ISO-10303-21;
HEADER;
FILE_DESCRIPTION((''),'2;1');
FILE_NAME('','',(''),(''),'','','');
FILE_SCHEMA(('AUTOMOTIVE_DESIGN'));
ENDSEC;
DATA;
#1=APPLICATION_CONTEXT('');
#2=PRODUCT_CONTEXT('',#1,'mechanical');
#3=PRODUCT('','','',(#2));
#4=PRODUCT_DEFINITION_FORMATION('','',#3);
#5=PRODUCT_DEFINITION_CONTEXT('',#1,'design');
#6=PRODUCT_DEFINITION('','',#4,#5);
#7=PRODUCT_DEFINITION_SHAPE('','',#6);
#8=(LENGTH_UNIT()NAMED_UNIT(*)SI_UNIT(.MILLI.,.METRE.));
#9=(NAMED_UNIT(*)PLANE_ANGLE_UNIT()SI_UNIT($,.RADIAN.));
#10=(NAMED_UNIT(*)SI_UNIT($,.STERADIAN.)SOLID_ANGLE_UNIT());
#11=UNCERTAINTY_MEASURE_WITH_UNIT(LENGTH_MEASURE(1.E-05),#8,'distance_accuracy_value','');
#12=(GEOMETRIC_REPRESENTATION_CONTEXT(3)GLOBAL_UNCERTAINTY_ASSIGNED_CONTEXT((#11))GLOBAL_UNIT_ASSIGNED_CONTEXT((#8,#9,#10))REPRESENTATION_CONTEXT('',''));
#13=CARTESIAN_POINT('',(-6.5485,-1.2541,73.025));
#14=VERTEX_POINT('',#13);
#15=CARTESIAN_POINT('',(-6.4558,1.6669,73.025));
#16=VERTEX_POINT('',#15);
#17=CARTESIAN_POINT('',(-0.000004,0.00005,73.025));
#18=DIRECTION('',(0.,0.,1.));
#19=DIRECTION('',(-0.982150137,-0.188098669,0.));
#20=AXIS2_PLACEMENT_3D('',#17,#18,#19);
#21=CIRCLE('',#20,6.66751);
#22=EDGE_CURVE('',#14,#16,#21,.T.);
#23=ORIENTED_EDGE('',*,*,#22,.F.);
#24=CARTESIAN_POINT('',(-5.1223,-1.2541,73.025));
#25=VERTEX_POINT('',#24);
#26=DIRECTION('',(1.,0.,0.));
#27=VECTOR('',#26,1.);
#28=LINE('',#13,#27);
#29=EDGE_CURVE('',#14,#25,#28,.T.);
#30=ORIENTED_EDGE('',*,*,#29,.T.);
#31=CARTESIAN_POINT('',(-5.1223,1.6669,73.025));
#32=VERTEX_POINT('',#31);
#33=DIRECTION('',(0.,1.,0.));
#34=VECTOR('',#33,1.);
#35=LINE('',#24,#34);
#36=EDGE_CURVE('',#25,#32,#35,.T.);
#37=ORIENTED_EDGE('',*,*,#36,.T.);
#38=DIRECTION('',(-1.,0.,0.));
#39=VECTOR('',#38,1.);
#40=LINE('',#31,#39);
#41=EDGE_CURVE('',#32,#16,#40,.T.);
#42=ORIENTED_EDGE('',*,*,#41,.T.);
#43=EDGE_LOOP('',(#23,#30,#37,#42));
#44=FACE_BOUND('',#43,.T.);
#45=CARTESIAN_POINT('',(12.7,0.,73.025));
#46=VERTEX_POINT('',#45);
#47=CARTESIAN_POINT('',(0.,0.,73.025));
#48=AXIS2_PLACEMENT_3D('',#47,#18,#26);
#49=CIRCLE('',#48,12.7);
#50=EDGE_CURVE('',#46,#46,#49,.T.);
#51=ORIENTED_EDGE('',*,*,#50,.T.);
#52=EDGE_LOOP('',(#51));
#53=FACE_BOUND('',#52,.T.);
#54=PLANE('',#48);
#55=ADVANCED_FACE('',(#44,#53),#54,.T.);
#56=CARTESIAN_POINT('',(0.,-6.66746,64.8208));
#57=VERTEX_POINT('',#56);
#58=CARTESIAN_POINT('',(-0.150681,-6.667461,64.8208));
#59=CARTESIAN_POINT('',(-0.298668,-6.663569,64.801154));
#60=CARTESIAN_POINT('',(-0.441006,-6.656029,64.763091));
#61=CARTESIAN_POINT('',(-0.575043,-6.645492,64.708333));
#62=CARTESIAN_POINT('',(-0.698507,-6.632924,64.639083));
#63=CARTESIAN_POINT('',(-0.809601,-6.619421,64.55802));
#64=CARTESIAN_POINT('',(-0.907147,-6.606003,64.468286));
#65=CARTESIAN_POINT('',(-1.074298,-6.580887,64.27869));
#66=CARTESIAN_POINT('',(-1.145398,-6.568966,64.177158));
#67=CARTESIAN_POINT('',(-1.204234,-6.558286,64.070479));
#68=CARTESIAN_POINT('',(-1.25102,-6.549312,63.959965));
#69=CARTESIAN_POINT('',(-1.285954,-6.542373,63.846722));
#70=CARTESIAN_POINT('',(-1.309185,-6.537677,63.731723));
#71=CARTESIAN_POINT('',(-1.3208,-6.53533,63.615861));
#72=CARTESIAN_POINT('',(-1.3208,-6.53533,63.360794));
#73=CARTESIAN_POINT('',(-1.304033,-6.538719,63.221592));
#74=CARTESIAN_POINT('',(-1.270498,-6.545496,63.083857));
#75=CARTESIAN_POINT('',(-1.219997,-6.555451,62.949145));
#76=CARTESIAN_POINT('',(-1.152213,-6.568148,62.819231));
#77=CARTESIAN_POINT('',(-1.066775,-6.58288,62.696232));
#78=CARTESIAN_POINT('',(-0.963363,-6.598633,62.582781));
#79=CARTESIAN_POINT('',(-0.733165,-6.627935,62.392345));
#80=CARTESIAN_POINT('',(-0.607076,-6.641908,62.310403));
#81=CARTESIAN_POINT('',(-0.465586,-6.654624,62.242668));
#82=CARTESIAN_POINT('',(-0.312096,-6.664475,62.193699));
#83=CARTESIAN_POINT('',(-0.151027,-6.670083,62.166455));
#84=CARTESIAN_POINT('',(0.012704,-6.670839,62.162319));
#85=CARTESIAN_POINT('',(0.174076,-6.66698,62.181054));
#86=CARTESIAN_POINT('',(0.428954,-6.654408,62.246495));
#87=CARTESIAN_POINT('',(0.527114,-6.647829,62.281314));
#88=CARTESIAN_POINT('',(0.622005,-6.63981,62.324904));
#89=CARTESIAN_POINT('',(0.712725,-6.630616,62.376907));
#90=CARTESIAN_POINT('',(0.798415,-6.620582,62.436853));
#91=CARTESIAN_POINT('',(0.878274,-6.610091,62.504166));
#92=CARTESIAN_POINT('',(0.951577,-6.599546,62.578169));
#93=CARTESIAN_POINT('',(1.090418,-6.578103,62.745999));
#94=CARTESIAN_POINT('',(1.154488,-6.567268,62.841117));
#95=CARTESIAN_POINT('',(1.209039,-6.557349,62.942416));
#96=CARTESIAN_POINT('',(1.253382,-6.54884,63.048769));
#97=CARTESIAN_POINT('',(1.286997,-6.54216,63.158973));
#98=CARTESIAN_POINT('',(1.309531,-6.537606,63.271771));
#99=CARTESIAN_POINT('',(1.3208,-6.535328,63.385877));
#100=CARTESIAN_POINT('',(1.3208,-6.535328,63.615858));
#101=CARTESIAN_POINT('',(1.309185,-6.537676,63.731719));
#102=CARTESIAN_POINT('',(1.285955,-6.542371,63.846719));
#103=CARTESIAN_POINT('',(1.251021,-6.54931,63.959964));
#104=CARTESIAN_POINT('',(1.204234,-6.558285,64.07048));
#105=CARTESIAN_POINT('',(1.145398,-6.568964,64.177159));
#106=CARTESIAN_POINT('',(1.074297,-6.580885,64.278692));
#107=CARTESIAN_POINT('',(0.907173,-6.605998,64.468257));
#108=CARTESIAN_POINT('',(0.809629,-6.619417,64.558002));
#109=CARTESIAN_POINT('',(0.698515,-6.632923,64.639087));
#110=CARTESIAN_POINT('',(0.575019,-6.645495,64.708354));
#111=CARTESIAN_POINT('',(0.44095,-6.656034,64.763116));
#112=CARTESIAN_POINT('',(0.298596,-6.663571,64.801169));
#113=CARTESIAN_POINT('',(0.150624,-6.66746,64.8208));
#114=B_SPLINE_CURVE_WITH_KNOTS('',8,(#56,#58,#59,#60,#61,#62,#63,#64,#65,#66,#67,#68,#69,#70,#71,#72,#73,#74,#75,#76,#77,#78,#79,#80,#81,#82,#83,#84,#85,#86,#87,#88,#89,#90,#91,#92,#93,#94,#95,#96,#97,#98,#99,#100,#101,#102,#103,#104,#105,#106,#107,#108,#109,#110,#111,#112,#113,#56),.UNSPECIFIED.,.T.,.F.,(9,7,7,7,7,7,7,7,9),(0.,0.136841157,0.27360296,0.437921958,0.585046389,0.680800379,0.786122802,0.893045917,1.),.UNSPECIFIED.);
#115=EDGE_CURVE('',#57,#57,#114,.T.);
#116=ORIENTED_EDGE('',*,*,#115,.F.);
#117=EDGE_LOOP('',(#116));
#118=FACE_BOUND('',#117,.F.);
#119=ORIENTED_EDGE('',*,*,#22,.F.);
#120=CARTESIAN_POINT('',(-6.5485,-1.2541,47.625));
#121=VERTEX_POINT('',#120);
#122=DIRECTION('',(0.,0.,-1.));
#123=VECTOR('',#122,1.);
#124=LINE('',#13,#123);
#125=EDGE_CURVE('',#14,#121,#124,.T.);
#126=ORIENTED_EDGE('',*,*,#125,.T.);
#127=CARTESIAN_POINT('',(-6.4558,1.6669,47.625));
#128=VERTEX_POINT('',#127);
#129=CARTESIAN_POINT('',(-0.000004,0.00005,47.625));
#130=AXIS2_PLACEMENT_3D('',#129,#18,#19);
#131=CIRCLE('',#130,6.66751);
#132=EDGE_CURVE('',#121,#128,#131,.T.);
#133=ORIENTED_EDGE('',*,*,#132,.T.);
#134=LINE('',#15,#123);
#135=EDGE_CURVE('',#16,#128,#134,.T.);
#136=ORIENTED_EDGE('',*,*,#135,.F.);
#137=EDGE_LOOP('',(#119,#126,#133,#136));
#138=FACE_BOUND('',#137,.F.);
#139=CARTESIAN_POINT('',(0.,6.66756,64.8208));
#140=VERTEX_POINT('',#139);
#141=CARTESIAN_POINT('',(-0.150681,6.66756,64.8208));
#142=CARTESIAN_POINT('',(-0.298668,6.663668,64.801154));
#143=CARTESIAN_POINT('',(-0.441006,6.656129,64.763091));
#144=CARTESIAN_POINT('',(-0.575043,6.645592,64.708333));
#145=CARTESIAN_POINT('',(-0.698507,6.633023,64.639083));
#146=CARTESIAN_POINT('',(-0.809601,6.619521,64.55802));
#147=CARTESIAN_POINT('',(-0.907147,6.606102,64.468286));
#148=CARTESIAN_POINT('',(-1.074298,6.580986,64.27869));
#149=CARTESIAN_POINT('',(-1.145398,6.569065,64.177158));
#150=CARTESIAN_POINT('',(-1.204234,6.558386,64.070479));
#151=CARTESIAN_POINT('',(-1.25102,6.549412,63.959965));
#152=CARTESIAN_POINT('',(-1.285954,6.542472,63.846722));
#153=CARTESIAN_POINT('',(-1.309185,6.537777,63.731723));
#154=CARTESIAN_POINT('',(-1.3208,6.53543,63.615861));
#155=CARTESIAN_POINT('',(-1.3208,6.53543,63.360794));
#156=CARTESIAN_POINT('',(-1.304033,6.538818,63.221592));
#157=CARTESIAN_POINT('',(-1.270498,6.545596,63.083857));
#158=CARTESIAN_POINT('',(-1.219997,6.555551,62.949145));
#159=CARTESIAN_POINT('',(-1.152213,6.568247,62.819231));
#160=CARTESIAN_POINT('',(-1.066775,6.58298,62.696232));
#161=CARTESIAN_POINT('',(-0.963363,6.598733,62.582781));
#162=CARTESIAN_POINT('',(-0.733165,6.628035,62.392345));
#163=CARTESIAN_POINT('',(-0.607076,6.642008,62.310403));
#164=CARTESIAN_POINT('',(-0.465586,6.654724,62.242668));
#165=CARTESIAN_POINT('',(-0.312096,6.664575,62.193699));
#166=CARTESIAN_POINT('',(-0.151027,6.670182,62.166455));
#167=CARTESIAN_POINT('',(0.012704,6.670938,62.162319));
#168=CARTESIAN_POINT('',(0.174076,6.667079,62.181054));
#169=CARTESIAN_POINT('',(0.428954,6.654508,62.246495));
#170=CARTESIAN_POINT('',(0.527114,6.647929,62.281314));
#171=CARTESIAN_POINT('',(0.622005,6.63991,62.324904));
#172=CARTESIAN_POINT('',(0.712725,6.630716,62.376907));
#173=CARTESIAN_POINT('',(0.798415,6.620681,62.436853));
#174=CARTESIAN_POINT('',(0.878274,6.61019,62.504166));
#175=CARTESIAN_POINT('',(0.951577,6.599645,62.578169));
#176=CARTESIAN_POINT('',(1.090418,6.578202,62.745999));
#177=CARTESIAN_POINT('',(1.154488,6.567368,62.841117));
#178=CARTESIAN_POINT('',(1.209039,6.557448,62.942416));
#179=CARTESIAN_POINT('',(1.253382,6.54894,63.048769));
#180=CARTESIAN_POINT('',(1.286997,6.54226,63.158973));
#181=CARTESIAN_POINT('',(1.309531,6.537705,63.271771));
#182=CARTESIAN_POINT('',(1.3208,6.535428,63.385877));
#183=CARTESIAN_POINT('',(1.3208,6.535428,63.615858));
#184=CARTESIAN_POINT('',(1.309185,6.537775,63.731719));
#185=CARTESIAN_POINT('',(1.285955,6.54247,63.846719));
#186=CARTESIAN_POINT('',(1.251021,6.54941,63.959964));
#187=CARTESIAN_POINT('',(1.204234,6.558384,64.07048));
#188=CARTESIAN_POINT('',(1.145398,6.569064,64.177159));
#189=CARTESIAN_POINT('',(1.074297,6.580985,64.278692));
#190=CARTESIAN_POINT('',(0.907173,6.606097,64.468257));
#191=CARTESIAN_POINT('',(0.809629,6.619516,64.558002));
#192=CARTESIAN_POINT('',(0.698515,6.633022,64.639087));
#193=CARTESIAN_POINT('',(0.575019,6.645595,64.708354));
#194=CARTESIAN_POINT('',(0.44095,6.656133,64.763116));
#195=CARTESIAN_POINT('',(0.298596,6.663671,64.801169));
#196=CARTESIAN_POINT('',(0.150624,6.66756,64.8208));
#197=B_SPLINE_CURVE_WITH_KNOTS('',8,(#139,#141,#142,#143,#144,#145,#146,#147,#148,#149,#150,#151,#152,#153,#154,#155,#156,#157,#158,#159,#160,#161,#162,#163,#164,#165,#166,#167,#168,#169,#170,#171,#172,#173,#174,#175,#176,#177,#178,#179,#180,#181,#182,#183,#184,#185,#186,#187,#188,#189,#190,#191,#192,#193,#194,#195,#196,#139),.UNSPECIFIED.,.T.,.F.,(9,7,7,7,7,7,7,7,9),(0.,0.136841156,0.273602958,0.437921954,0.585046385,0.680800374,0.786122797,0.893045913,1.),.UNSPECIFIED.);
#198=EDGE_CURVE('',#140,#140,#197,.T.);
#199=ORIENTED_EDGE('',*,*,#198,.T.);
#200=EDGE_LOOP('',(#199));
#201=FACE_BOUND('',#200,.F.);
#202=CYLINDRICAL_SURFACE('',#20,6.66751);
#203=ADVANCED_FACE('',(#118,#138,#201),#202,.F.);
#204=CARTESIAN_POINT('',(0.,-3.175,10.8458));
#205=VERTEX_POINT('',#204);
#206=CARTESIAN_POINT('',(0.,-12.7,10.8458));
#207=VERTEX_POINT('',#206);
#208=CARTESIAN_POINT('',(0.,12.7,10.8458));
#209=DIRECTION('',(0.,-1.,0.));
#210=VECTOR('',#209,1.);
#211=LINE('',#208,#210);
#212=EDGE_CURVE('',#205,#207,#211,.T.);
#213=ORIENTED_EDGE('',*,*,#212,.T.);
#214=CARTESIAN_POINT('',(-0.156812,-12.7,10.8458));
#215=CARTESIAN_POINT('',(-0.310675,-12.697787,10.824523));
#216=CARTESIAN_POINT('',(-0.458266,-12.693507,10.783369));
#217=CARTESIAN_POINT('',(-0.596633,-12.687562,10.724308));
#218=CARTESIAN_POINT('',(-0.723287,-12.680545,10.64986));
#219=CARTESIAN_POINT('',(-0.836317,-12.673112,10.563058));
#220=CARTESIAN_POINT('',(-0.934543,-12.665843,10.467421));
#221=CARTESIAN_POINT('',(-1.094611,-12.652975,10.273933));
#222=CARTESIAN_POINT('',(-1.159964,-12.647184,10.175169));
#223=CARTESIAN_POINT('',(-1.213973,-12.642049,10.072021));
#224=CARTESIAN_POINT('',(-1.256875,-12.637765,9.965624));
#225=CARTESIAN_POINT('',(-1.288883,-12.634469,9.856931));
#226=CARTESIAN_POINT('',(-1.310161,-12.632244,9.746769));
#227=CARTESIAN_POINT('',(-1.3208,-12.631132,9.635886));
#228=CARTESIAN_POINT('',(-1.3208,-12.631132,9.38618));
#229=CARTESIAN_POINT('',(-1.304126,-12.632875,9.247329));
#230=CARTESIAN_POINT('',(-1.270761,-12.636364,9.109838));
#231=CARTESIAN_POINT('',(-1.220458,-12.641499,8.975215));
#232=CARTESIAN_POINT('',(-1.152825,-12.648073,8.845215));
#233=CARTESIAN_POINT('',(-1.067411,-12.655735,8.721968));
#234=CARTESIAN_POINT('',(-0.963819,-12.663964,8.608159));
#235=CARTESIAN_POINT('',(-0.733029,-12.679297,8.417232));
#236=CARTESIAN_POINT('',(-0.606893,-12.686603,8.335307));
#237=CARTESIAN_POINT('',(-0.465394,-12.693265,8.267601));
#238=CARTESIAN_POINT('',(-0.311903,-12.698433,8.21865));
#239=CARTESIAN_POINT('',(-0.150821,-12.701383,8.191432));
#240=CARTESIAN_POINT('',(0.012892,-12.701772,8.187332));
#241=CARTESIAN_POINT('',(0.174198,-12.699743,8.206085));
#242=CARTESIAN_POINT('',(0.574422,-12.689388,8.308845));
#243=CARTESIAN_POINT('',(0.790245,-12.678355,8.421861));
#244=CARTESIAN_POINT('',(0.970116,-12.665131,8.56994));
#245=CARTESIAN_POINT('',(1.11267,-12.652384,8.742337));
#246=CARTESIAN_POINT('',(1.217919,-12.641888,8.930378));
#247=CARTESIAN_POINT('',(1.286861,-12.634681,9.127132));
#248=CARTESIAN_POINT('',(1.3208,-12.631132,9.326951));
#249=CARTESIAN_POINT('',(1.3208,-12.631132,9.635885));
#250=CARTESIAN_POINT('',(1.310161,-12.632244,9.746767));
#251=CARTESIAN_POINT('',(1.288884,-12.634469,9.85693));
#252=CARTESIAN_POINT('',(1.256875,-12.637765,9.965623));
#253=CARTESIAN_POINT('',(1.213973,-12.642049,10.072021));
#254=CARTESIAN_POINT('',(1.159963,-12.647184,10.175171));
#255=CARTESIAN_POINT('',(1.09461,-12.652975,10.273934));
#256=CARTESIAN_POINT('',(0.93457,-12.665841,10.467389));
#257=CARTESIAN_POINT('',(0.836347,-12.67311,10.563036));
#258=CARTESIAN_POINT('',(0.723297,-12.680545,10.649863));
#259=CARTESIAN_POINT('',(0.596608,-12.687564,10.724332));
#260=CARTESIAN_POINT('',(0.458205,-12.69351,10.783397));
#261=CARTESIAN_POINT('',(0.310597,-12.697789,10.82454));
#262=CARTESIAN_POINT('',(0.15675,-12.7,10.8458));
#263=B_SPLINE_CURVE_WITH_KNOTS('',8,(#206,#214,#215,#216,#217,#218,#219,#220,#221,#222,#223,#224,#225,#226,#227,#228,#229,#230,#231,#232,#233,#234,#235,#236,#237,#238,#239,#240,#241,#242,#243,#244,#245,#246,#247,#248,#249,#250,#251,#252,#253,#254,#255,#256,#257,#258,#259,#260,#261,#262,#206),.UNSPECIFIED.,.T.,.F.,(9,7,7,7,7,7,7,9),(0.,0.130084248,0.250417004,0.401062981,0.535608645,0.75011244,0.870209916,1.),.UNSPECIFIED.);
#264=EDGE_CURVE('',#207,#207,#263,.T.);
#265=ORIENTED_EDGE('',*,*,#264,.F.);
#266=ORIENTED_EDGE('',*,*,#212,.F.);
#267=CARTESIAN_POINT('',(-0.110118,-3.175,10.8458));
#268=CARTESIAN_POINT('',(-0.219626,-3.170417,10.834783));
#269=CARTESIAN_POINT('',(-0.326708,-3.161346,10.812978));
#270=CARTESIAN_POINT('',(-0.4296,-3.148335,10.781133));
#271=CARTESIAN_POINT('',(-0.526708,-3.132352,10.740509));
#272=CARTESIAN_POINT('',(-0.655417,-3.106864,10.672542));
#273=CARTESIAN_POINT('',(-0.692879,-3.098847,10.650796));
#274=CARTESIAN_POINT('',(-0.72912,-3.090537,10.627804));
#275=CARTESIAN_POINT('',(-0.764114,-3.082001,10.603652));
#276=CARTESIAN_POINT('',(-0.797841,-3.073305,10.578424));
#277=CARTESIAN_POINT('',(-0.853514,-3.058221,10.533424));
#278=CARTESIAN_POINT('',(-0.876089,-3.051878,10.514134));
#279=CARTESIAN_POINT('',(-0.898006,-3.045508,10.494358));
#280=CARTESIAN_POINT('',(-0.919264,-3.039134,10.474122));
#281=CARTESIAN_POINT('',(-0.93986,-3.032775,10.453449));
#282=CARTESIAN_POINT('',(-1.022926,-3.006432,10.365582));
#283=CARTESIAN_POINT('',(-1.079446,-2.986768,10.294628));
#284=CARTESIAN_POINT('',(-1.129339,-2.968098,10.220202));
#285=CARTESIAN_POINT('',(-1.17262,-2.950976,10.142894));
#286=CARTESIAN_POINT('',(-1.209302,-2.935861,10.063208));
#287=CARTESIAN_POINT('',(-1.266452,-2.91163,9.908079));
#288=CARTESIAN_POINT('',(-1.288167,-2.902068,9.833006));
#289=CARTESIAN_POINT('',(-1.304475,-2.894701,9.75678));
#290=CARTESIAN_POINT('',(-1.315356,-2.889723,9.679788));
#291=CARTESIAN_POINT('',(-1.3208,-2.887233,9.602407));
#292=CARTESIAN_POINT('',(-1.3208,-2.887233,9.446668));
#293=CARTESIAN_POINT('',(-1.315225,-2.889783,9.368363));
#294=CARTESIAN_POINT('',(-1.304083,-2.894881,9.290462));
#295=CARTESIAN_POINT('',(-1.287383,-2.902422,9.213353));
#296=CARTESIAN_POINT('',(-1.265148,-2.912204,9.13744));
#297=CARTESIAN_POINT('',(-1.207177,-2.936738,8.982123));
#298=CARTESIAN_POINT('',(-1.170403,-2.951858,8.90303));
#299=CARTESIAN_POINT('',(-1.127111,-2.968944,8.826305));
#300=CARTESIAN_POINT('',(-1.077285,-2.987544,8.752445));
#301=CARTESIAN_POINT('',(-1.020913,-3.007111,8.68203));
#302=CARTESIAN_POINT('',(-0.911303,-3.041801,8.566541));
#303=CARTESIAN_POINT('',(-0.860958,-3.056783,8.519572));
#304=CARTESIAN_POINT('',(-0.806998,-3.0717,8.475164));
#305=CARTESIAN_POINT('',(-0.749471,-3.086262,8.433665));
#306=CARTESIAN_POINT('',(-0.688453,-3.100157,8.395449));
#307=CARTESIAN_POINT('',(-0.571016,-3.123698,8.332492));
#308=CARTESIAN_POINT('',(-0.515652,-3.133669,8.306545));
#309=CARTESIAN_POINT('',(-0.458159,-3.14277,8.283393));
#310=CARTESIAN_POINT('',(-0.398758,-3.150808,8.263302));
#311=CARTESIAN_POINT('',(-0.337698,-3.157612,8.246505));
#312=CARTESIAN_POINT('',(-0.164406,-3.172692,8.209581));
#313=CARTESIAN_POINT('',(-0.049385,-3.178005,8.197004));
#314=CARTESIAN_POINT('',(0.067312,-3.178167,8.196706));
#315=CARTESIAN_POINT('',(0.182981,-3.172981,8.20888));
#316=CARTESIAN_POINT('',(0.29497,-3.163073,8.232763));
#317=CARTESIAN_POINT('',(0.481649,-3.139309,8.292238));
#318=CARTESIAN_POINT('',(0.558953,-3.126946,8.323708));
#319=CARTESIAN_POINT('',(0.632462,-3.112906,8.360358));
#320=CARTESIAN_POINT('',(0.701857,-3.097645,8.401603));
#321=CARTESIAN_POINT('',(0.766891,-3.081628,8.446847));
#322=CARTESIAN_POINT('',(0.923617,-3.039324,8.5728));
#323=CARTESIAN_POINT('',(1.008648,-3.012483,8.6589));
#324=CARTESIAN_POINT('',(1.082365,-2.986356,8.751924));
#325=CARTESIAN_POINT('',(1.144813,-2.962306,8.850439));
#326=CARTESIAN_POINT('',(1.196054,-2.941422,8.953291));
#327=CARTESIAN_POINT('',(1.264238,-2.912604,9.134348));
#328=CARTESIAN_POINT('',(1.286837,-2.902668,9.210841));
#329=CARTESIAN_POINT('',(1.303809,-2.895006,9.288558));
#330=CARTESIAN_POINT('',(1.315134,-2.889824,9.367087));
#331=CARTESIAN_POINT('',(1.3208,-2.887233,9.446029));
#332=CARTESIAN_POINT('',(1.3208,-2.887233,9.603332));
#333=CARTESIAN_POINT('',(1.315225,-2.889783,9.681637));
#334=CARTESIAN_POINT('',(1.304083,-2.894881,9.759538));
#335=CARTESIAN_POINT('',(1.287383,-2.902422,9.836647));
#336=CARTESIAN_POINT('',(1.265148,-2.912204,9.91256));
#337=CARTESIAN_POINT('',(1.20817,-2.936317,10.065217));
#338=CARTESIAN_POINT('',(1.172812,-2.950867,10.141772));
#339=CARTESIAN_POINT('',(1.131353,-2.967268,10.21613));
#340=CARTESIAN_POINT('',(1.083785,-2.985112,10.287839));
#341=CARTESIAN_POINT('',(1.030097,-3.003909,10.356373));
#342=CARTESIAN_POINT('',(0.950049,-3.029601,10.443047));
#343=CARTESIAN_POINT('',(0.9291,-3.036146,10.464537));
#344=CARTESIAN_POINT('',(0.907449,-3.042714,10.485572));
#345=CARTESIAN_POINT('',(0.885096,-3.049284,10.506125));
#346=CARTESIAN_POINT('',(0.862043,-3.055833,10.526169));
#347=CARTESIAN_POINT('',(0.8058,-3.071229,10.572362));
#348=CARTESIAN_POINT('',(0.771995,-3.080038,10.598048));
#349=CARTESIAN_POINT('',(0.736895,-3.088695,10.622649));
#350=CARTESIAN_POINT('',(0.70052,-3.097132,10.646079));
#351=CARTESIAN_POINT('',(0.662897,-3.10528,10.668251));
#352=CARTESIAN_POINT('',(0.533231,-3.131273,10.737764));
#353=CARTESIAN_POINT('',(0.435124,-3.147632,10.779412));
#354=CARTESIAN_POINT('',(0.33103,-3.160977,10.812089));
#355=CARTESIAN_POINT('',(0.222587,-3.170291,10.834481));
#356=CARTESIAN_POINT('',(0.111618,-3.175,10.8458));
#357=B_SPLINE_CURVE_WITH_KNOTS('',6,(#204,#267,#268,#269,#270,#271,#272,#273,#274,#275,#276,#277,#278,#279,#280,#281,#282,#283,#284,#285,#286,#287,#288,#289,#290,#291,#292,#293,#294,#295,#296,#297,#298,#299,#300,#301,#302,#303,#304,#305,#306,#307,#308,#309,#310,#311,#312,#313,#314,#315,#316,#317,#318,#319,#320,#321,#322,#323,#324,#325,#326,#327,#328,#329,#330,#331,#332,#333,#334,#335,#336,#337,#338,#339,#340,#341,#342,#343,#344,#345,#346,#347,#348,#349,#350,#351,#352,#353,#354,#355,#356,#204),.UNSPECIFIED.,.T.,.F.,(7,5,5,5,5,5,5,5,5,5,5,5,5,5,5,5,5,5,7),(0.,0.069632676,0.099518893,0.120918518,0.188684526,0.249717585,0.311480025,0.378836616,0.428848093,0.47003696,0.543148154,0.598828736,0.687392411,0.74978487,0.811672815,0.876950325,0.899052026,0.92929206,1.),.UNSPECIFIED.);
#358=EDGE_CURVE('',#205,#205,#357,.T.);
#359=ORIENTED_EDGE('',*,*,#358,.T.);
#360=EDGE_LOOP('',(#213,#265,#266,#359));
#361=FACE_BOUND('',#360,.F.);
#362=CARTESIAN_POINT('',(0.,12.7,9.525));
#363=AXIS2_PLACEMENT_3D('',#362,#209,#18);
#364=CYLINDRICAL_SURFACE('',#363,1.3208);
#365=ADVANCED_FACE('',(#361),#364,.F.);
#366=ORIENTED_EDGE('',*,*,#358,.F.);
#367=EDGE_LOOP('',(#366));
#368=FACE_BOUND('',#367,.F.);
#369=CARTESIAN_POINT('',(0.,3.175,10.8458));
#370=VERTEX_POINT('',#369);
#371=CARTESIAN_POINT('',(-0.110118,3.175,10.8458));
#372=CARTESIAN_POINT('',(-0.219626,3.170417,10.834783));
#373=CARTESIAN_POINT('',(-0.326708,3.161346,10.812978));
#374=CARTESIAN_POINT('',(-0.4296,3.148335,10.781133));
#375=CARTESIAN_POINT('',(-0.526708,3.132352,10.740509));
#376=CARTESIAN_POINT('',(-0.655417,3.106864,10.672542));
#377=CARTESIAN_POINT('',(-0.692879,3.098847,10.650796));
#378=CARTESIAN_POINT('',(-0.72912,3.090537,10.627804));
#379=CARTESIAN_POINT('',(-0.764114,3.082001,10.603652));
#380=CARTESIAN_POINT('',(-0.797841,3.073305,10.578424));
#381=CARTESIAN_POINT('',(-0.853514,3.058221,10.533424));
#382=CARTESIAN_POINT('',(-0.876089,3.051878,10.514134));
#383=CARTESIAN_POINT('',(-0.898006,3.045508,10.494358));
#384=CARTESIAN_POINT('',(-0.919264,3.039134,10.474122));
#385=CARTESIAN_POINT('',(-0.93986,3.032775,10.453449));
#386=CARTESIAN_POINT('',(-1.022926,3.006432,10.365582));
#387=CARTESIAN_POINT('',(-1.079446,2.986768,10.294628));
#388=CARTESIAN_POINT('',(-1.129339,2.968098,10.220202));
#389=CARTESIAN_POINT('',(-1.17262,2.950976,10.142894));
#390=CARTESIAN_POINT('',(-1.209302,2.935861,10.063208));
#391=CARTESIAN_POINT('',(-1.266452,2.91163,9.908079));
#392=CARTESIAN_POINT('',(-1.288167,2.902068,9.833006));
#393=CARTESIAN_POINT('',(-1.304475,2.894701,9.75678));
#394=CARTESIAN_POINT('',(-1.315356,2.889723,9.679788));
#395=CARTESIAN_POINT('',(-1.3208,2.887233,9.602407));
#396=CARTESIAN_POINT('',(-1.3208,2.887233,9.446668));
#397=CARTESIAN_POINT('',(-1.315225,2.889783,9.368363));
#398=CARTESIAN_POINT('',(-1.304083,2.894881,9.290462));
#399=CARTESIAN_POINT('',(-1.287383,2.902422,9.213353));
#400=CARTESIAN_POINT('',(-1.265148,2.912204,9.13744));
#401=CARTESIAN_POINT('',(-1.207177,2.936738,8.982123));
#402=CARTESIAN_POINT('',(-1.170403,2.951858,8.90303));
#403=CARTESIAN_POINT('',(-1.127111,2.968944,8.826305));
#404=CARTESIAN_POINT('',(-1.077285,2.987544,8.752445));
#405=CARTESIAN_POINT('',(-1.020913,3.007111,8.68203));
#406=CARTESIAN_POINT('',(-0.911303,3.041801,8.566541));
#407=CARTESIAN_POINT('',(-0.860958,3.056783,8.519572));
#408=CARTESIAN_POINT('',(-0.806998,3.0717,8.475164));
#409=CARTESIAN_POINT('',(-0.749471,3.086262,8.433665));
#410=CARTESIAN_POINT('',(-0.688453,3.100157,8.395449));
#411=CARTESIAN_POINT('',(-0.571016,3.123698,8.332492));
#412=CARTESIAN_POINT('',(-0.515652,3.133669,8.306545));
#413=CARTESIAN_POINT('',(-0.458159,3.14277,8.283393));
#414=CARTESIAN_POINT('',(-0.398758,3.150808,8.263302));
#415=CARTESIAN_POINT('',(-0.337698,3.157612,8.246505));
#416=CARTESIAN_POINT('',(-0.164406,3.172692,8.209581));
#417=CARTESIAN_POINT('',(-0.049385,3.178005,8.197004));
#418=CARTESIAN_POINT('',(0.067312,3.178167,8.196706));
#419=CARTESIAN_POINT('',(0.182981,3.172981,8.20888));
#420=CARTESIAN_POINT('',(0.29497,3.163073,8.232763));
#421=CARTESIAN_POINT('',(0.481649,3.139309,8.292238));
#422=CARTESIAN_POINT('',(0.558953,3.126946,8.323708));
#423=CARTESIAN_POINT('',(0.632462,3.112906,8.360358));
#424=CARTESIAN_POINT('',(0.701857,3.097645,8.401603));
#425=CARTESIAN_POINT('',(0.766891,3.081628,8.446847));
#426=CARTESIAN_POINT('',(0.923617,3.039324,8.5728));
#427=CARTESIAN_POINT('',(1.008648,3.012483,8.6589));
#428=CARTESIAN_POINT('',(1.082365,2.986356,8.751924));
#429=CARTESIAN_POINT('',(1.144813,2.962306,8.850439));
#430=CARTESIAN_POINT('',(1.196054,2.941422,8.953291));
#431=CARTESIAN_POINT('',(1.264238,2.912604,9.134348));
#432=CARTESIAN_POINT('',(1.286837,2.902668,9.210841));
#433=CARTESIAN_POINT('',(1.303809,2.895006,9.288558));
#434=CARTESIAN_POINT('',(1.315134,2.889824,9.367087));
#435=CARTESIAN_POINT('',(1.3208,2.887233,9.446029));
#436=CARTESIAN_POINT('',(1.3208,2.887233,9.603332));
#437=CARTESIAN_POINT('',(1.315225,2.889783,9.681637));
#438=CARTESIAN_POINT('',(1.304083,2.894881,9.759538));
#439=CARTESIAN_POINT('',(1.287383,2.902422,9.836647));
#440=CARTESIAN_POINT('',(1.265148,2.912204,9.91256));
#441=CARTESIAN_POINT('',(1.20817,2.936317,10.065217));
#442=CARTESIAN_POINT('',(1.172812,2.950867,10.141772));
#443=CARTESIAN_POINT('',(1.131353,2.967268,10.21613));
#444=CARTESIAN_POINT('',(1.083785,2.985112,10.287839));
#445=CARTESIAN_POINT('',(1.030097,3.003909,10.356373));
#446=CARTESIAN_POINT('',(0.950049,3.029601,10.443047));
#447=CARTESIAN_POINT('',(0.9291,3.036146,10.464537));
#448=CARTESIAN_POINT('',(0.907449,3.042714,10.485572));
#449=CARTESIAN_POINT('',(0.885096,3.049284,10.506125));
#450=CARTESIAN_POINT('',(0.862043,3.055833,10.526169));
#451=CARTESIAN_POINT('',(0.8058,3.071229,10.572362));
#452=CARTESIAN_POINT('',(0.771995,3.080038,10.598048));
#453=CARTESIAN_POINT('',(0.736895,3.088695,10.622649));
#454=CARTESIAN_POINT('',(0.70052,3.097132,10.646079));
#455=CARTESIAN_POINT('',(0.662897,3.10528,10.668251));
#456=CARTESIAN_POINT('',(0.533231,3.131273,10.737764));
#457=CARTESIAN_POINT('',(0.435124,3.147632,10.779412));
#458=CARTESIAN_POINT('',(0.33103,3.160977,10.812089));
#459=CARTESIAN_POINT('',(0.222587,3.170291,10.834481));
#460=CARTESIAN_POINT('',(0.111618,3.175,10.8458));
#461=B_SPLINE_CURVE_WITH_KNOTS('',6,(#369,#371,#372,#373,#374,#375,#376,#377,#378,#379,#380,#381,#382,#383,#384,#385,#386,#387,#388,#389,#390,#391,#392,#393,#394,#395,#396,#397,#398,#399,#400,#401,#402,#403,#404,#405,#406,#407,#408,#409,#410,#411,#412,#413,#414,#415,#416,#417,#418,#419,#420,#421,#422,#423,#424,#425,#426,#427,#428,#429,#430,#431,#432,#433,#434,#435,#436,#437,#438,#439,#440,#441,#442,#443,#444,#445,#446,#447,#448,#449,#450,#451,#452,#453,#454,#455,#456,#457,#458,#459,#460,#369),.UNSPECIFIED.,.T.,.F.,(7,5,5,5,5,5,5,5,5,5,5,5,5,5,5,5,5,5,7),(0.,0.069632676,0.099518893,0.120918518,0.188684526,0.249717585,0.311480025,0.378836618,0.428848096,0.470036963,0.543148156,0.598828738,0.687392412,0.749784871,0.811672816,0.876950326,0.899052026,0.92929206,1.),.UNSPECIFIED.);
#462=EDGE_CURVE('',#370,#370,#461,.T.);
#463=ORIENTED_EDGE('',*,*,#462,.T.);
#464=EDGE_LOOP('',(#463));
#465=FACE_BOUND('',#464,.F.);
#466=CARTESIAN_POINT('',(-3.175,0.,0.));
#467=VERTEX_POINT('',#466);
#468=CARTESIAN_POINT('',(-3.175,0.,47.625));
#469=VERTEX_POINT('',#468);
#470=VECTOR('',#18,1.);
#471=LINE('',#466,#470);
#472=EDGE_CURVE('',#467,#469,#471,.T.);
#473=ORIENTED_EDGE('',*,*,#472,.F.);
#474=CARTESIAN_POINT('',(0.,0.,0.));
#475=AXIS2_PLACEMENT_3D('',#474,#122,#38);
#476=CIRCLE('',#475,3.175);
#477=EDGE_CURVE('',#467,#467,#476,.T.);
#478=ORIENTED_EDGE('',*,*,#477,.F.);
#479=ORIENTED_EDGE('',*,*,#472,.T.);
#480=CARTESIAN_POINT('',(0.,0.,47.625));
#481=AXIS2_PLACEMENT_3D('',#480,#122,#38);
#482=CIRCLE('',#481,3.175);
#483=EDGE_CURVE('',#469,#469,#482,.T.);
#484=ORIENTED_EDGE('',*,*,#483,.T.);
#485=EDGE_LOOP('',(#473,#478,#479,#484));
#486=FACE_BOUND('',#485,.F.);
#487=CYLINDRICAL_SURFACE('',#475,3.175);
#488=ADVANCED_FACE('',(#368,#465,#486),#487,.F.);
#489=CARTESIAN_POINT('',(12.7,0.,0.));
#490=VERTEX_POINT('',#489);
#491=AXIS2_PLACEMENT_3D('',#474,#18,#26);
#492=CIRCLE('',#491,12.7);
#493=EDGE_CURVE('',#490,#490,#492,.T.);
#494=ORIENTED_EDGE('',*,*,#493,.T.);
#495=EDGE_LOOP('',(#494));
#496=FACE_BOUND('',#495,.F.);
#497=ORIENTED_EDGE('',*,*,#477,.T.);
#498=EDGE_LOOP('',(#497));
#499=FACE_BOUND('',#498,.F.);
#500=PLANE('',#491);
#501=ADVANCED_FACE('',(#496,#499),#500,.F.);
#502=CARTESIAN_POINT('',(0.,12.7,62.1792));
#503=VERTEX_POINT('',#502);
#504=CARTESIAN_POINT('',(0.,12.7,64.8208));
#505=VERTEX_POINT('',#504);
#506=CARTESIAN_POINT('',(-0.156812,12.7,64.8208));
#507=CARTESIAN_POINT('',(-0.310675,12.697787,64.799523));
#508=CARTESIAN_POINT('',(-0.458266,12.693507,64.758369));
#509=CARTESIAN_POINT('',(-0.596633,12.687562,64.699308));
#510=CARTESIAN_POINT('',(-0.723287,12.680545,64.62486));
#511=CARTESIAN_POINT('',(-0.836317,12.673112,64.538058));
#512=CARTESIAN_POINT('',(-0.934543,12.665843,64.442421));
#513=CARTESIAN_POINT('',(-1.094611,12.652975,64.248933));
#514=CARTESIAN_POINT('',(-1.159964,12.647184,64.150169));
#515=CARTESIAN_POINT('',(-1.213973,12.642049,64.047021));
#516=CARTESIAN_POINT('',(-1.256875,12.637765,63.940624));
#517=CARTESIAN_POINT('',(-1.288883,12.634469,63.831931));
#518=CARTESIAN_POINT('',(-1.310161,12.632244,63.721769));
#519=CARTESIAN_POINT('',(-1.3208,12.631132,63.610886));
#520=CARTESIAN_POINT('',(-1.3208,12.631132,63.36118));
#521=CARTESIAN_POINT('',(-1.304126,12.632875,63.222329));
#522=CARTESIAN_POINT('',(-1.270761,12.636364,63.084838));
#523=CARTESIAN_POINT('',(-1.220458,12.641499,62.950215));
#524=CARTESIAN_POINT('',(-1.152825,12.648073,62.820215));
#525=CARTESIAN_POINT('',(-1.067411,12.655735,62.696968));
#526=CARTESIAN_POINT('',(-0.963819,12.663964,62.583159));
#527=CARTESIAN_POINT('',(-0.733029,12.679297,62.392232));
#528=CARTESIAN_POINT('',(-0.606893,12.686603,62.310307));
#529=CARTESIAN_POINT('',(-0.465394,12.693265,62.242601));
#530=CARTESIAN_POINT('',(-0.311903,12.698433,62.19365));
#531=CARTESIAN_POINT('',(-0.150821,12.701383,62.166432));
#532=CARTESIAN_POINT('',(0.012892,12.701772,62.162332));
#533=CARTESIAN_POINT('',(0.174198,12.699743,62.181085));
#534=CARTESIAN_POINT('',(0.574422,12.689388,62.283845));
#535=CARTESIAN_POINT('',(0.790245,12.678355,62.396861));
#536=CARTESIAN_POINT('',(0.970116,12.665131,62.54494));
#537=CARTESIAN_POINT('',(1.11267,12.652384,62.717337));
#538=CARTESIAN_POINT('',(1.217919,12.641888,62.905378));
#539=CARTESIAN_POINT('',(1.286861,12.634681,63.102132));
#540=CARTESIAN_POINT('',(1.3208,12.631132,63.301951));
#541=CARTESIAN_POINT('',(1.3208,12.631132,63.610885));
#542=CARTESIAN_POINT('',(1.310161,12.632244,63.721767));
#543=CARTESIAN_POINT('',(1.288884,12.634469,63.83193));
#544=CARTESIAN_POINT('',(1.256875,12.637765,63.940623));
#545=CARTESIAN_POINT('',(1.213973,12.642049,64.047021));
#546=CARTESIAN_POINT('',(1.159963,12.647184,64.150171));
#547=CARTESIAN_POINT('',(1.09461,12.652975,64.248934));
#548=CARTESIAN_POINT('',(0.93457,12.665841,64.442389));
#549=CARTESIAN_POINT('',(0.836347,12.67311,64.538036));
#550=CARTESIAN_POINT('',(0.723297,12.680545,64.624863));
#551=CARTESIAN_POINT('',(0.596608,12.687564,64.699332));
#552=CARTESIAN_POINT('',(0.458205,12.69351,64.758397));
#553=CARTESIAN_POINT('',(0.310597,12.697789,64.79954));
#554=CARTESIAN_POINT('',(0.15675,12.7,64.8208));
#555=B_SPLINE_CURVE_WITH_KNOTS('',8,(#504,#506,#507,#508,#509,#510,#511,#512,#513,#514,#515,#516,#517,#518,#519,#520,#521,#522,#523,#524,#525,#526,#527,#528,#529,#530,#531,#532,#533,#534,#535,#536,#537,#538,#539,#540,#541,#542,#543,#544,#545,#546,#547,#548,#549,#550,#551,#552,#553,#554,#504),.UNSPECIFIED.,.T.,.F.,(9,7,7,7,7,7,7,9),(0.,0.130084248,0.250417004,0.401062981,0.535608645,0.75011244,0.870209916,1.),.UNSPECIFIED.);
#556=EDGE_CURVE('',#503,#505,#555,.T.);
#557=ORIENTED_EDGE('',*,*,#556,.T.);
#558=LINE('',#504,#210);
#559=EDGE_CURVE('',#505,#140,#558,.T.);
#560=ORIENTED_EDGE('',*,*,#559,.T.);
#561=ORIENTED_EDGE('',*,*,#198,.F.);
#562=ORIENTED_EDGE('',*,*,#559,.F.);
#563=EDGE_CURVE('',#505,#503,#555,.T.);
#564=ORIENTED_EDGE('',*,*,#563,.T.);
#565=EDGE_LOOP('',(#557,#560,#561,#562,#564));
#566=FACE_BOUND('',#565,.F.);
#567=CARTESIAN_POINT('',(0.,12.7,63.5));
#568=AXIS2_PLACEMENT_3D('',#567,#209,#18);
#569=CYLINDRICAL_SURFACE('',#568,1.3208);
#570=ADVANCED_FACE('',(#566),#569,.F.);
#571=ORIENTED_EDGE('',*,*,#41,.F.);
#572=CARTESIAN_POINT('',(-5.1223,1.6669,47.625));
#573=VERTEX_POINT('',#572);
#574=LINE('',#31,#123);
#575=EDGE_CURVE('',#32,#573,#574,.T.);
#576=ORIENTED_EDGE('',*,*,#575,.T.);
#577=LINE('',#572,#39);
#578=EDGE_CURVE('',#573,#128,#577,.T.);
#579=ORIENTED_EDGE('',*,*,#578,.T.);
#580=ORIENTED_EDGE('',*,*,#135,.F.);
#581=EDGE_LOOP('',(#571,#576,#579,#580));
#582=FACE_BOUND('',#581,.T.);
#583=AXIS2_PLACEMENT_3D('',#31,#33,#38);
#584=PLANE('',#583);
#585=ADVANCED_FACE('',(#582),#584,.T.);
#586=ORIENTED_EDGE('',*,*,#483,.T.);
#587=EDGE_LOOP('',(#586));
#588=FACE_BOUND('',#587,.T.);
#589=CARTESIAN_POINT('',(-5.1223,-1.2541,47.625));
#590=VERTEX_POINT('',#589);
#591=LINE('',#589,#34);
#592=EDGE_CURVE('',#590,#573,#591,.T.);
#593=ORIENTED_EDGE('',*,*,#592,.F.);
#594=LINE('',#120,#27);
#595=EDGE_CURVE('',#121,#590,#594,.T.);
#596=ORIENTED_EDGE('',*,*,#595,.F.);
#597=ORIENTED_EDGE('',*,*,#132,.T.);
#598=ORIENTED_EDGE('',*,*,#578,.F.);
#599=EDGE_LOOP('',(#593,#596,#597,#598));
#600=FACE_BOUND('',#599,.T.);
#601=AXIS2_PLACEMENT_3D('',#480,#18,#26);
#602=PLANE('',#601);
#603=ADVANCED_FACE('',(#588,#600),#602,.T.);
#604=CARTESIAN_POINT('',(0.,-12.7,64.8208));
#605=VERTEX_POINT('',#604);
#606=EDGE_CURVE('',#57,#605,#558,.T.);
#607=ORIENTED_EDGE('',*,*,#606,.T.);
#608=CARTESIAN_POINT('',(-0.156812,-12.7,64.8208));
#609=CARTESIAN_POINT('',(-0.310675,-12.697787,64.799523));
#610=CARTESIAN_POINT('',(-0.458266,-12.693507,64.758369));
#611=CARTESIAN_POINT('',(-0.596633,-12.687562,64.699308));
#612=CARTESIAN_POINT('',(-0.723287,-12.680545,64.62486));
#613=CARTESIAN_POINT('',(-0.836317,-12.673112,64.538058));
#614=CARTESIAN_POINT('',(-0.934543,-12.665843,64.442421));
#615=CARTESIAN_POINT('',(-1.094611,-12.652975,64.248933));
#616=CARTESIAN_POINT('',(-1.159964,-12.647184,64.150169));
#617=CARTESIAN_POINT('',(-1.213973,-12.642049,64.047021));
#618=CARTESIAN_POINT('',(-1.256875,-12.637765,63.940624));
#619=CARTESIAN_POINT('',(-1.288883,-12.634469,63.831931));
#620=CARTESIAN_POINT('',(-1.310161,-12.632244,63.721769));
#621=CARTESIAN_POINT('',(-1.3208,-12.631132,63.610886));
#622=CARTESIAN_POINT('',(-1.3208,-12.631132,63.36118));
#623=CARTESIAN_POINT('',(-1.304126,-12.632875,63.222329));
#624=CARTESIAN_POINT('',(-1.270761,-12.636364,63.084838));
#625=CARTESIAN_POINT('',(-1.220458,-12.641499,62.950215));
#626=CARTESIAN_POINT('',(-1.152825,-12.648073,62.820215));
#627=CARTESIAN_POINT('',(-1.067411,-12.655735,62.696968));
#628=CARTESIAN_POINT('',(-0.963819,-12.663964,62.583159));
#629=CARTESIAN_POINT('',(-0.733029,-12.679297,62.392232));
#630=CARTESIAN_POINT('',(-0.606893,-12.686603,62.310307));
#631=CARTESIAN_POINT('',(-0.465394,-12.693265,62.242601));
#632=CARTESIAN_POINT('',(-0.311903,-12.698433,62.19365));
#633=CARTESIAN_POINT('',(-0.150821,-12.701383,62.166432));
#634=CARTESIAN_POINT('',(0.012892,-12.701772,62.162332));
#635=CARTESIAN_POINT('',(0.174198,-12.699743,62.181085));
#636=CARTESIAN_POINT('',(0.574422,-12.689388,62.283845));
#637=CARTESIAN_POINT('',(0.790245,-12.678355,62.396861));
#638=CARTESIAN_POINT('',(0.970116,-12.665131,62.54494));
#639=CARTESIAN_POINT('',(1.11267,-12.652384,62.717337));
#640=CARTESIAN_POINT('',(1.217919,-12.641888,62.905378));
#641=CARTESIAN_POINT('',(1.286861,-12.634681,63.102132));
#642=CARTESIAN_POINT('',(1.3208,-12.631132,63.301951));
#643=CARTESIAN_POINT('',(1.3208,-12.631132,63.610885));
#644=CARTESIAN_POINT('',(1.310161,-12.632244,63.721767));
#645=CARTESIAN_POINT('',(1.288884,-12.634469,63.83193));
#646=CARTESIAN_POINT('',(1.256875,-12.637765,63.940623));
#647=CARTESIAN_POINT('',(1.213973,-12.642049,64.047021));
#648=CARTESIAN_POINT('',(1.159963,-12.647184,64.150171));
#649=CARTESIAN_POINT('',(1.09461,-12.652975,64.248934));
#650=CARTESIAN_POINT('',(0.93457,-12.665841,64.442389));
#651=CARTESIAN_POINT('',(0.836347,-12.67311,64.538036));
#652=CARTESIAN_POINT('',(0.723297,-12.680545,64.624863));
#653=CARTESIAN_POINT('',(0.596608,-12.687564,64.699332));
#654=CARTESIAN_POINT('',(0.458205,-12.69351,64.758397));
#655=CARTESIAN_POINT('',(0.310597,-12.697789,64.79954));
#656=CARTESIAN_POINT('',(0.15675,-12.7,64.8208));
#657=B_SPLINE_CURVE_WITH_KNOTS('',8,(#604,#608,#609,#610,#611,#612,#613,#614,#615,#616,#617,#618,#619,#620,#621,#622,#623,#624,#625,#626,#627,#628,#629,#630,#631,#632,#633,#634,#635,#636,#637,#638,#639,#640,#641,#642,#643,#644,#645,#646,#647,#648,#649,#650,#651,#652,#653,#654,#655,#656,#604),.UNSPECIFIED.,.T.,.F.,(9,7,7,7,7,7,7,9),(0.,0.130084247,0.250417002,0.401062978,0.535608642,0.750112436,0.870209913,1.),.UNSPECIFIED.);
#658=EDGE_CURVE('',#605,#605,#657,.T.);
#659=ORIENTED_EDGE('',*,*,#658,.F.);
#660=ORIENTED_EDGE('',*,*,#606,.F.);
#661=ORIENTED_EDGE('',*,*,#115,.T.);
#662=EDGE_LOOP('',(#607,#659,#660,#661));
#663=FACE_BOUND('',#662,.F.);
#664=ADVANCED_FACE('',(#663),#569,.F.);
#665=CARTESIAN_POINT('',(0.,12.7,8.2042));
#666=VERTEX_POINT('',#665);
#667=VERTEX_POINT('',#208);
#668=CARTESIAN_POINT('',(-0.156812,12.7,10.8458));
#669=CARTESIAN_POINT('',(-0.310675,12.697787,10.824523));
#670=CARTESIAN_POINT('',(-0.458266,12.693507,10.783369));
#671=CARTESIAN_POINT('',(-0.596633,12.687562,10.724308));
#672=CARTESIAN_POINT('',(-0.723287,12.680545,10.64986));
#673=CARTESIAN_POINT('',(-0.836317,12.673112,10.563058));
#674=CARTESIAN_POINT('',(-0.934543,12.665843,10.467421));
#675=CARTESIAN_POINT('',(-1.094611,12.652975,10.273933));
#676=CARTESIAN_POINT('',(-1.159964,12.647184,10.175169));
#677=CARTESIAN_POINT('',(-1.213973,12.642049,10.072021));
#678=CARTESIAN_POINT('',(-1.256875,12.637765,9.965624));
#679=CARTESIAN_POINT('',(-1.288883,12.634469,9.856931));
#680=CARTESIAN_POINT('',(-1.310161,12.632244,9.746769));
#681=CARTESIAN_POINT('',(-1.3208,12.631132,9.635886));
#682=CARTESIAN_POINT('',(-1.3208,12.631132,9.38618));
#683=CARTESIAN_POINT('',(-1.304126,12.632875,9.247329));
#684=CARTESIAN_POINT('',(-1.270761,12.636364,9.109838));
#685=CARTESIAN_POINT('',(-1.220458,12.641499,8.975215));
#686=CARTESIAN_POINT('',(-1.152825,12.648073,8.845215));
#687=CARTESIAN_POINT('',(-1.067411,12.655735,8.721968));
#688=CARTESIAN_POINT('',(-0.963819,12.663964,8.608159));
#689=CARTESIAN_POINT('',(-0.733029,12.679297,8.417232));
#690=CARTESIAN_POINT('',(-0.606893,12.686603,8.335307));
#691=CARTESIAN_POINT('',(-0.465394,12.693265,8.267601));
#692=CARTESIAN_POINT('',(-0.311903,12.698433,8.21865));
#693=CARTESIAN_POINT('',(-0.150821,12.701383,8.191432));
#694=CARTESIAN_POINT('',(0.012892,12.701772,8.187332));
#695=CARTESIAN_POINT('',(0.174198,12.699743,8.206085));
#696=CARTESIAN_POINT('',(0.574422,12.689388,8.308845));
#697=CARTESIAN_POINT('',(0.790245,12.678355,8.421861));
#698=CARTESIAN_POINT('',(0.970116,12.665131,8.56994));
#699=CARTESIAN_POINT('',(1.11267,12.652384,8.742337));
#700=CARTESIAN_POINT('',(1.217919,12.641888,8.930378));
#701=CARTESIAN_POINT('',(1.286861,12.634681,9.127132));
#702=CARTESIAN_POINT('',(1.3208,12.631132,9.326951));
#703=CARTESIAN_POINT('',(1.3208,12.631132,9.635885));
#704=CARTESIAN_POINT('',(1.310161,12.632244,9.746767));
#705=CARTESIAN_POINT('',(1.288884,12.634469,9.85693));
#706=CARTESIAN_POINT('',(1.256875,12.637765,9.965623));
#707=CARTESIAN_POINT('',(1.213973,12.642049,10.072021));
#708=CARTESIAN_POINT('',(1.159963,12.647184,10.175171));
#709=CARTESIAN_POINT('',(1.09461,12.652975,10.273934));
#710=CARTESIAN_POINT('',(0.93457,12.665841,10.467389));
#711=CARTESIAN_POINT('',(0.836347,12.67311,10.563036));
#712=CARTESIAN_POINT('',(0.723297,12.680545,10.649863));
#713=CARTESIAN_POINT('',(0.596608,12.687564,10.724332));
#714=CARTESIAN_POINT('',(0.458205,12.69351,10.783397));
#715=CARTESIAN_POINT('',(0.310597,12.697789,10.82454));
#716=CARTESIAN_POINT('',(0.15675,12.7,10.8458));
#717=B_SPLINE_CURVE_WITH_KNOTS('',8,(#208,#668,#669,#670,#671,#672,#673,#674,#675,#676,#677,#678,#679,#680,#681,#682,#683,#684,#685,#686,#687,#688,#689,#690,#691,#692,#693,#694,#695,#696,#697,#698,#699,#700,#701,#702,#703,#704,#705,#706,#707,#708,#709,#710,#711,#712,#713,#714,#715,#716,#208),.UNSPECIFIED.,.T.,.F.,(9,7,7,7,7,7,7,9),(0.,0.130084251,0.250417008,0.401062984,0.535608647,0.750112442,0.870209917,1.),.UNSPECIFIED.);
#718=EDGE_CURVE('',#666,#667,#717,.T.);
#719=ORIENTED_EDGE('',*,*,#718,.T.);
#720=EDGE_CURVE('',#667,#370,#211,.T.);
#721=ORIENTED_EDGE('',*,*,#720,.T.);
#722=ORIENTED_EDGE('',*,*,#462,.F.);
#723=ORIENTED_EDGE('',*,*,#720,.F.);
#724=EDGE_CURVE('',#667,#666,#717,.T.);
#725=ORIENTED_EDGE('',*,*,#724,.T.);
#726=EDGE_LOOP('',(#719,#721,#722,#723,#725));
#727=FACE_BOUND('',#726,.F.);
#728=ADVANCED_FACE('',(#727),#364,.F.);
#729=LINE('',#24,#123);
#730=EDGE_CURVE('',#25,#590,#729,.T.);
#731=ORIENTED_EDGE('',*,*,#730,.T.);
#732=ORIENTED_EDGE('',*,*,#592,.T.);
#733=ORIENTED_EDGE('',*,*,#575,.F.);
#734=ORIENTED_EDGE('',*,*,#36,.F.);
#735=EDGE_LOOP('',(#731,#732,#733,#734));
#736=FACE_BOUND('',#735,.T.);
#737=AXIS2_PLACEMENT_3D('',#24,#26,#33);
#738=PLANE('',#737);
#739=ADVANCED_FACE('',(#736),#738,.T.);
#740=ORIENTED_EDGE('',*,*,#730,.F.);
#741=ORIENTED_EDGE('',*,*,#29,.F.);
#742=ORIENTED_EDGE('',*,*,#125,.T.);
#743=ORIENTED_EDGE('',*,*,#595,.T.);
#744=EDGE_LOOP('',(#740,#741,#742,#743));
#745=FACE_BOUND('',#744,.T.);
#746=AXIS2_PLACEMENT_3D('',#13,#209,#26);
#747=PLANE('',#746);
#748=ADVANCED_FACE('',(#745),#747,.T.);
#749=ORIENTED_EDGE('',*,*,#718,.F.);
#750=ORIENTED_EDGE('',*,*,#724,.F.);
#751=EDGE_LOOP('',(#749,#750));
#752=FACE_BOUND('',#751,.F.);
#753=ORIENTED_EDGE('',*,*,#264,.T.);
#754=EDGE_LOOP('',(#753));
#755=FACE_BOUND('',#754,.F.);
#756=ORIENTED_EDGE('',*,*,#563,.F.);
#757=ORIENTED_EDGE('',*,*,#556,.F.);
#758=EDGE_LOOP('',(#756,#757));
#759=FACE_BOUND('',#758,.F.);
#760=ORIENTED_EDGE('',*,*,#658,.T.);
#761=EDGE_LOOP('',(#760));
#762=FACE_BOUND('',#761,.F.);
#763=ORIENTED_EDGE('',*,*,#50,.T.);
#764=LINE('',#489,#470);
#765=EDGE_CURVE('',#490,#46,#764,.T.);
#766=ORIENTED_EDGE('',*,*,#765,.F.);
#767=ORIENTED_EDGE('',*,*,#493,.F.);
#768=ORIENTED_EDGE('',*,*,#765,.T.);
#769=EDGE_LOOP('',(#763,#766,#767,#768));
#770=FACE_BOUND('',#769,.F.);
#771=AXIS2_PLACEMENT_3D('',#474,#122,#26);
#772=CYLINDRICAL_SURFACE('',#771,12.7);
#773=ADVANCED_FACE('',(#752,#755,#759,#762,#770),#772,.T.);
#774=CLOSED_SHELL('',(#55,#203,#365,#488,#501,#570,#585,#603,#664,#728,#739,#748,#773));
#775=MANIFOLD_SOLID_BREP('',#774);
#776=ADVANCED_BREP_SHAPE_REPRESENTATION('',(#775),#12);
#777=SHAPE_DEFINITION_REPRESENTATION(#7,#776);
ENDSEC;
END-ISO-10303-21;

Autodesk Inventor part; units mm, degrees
ref_plane "YZ Plane" through (0, 0, 0) normal (1, 0, 0) x (0, 1, 0)
ref_plane "XY Plane" through (0, 0, 0) normal (0, 0, 1) x (1, 0, 0)
sketch "Sketch2" plane through (0, 0, 0) normal (0, 0, 1) x (1, 0, 0)
  circle A0 centre (0, 0) radius 12.7
  dimension "d0" = 25.4
extrude "Extrusion1" add sketch "Sketch2" along normal blind 73.025
sketch "Sketch3" plane through (0, 0, 73.025) normal (0, 0, 1) x (1, 0, 0)
  arc A0 (-6.5485, -1.2541) -> (-6.4558, 1.6669) centre (0, 0) ccw
  circle A1 centre (0, 0) radius 12.7 construction
  line L0 (-12.7, 0) -> (12.7, 0) construction
  line L1 (-6.35, 0) -> (-4.7625, 1.5875) construction
  line L2 (-4.7625, -1.5875) -> (-6.35, 0) construction
  line L3 (-6.5485, -1.2541) -> (-5.1223, -1.2541)
  line L4 (-5.1223, -1.2541) -> (-5.1223, 1.6669)
  line L5 (-5.1223, 1.6669) -> (-6.4558, 1.6669)
  dimension "d3" = 13.335
  dimension "d22" = 2.921
  dimension "d23" = 1.3335
extrude "Extrusion2" cut sketch "Sketch3" against normal blind 25.4
sketch "Sketch4" plane through (0, 0, 0) normal (0, 0, -1) x (-1, 0, 0)
  circle A0 centre (0, 0) radius 3.175
  dimension "d10" = 6.35
extrude "Extrusion3" cut sketch "Sketch4" against normal through all
ref_plane "Work Plane1" through (0, 12.7, 0) normal (0, 1, 0) x (-1, 0, 0)
sketch "Sketch5" plane through (0, 12.7, 0) normal (0, 1, 0) x (-1, 0, 0)
  line L0 (-12.7, 0) -> (12.7, 0) projected
  point P0 (0, 0)
  point P1 (0, 9.525)
  dimension "d13" = 9.525
hole "Hole1" at (0, 12.7, 9.525) direction (0, -1, 0) diameter 2.6416 end through all thread size "6-32 UNC" class "2B" standard "ANSI Unified Screw Threads"
sketch "Sketch6" plane through (0, 12.7, 0) normal (0, 1, 0) x (-1, 0, 0)
  line L0 (12.7, 73.025) -> (-12.7, 73.025) projected
  point P0 (0, 0)
  point P1 (0, 63.5)
  dimension "d24" = 9.525
hole "Hole2" at (0, 12.7, 63.5) direction (0, -1, 0) diameter 2.6416 end through all thread size "6-32 UNC" class "2B" standard "ANSI Unified Screw Threads"
equation "\"d1\" = length"
equation "\"d3\" = shaftDiameter + shaftClearance"
equation "\"d22\" = keywayWidth"
equation "\"d23\" = keywayDepth"
equation "\"length\" = 73.025"
equation "\"shaftDiameter\" = 12.7"
equation "\"shaftClearance\" = 0.635"
equation "\"keywayWidth\" = 2.921"
equation "\"keywayDepth\" = 1.3335"
properties part number "ShaftToConnectPotToMotor" material "Aluminum 6061"
